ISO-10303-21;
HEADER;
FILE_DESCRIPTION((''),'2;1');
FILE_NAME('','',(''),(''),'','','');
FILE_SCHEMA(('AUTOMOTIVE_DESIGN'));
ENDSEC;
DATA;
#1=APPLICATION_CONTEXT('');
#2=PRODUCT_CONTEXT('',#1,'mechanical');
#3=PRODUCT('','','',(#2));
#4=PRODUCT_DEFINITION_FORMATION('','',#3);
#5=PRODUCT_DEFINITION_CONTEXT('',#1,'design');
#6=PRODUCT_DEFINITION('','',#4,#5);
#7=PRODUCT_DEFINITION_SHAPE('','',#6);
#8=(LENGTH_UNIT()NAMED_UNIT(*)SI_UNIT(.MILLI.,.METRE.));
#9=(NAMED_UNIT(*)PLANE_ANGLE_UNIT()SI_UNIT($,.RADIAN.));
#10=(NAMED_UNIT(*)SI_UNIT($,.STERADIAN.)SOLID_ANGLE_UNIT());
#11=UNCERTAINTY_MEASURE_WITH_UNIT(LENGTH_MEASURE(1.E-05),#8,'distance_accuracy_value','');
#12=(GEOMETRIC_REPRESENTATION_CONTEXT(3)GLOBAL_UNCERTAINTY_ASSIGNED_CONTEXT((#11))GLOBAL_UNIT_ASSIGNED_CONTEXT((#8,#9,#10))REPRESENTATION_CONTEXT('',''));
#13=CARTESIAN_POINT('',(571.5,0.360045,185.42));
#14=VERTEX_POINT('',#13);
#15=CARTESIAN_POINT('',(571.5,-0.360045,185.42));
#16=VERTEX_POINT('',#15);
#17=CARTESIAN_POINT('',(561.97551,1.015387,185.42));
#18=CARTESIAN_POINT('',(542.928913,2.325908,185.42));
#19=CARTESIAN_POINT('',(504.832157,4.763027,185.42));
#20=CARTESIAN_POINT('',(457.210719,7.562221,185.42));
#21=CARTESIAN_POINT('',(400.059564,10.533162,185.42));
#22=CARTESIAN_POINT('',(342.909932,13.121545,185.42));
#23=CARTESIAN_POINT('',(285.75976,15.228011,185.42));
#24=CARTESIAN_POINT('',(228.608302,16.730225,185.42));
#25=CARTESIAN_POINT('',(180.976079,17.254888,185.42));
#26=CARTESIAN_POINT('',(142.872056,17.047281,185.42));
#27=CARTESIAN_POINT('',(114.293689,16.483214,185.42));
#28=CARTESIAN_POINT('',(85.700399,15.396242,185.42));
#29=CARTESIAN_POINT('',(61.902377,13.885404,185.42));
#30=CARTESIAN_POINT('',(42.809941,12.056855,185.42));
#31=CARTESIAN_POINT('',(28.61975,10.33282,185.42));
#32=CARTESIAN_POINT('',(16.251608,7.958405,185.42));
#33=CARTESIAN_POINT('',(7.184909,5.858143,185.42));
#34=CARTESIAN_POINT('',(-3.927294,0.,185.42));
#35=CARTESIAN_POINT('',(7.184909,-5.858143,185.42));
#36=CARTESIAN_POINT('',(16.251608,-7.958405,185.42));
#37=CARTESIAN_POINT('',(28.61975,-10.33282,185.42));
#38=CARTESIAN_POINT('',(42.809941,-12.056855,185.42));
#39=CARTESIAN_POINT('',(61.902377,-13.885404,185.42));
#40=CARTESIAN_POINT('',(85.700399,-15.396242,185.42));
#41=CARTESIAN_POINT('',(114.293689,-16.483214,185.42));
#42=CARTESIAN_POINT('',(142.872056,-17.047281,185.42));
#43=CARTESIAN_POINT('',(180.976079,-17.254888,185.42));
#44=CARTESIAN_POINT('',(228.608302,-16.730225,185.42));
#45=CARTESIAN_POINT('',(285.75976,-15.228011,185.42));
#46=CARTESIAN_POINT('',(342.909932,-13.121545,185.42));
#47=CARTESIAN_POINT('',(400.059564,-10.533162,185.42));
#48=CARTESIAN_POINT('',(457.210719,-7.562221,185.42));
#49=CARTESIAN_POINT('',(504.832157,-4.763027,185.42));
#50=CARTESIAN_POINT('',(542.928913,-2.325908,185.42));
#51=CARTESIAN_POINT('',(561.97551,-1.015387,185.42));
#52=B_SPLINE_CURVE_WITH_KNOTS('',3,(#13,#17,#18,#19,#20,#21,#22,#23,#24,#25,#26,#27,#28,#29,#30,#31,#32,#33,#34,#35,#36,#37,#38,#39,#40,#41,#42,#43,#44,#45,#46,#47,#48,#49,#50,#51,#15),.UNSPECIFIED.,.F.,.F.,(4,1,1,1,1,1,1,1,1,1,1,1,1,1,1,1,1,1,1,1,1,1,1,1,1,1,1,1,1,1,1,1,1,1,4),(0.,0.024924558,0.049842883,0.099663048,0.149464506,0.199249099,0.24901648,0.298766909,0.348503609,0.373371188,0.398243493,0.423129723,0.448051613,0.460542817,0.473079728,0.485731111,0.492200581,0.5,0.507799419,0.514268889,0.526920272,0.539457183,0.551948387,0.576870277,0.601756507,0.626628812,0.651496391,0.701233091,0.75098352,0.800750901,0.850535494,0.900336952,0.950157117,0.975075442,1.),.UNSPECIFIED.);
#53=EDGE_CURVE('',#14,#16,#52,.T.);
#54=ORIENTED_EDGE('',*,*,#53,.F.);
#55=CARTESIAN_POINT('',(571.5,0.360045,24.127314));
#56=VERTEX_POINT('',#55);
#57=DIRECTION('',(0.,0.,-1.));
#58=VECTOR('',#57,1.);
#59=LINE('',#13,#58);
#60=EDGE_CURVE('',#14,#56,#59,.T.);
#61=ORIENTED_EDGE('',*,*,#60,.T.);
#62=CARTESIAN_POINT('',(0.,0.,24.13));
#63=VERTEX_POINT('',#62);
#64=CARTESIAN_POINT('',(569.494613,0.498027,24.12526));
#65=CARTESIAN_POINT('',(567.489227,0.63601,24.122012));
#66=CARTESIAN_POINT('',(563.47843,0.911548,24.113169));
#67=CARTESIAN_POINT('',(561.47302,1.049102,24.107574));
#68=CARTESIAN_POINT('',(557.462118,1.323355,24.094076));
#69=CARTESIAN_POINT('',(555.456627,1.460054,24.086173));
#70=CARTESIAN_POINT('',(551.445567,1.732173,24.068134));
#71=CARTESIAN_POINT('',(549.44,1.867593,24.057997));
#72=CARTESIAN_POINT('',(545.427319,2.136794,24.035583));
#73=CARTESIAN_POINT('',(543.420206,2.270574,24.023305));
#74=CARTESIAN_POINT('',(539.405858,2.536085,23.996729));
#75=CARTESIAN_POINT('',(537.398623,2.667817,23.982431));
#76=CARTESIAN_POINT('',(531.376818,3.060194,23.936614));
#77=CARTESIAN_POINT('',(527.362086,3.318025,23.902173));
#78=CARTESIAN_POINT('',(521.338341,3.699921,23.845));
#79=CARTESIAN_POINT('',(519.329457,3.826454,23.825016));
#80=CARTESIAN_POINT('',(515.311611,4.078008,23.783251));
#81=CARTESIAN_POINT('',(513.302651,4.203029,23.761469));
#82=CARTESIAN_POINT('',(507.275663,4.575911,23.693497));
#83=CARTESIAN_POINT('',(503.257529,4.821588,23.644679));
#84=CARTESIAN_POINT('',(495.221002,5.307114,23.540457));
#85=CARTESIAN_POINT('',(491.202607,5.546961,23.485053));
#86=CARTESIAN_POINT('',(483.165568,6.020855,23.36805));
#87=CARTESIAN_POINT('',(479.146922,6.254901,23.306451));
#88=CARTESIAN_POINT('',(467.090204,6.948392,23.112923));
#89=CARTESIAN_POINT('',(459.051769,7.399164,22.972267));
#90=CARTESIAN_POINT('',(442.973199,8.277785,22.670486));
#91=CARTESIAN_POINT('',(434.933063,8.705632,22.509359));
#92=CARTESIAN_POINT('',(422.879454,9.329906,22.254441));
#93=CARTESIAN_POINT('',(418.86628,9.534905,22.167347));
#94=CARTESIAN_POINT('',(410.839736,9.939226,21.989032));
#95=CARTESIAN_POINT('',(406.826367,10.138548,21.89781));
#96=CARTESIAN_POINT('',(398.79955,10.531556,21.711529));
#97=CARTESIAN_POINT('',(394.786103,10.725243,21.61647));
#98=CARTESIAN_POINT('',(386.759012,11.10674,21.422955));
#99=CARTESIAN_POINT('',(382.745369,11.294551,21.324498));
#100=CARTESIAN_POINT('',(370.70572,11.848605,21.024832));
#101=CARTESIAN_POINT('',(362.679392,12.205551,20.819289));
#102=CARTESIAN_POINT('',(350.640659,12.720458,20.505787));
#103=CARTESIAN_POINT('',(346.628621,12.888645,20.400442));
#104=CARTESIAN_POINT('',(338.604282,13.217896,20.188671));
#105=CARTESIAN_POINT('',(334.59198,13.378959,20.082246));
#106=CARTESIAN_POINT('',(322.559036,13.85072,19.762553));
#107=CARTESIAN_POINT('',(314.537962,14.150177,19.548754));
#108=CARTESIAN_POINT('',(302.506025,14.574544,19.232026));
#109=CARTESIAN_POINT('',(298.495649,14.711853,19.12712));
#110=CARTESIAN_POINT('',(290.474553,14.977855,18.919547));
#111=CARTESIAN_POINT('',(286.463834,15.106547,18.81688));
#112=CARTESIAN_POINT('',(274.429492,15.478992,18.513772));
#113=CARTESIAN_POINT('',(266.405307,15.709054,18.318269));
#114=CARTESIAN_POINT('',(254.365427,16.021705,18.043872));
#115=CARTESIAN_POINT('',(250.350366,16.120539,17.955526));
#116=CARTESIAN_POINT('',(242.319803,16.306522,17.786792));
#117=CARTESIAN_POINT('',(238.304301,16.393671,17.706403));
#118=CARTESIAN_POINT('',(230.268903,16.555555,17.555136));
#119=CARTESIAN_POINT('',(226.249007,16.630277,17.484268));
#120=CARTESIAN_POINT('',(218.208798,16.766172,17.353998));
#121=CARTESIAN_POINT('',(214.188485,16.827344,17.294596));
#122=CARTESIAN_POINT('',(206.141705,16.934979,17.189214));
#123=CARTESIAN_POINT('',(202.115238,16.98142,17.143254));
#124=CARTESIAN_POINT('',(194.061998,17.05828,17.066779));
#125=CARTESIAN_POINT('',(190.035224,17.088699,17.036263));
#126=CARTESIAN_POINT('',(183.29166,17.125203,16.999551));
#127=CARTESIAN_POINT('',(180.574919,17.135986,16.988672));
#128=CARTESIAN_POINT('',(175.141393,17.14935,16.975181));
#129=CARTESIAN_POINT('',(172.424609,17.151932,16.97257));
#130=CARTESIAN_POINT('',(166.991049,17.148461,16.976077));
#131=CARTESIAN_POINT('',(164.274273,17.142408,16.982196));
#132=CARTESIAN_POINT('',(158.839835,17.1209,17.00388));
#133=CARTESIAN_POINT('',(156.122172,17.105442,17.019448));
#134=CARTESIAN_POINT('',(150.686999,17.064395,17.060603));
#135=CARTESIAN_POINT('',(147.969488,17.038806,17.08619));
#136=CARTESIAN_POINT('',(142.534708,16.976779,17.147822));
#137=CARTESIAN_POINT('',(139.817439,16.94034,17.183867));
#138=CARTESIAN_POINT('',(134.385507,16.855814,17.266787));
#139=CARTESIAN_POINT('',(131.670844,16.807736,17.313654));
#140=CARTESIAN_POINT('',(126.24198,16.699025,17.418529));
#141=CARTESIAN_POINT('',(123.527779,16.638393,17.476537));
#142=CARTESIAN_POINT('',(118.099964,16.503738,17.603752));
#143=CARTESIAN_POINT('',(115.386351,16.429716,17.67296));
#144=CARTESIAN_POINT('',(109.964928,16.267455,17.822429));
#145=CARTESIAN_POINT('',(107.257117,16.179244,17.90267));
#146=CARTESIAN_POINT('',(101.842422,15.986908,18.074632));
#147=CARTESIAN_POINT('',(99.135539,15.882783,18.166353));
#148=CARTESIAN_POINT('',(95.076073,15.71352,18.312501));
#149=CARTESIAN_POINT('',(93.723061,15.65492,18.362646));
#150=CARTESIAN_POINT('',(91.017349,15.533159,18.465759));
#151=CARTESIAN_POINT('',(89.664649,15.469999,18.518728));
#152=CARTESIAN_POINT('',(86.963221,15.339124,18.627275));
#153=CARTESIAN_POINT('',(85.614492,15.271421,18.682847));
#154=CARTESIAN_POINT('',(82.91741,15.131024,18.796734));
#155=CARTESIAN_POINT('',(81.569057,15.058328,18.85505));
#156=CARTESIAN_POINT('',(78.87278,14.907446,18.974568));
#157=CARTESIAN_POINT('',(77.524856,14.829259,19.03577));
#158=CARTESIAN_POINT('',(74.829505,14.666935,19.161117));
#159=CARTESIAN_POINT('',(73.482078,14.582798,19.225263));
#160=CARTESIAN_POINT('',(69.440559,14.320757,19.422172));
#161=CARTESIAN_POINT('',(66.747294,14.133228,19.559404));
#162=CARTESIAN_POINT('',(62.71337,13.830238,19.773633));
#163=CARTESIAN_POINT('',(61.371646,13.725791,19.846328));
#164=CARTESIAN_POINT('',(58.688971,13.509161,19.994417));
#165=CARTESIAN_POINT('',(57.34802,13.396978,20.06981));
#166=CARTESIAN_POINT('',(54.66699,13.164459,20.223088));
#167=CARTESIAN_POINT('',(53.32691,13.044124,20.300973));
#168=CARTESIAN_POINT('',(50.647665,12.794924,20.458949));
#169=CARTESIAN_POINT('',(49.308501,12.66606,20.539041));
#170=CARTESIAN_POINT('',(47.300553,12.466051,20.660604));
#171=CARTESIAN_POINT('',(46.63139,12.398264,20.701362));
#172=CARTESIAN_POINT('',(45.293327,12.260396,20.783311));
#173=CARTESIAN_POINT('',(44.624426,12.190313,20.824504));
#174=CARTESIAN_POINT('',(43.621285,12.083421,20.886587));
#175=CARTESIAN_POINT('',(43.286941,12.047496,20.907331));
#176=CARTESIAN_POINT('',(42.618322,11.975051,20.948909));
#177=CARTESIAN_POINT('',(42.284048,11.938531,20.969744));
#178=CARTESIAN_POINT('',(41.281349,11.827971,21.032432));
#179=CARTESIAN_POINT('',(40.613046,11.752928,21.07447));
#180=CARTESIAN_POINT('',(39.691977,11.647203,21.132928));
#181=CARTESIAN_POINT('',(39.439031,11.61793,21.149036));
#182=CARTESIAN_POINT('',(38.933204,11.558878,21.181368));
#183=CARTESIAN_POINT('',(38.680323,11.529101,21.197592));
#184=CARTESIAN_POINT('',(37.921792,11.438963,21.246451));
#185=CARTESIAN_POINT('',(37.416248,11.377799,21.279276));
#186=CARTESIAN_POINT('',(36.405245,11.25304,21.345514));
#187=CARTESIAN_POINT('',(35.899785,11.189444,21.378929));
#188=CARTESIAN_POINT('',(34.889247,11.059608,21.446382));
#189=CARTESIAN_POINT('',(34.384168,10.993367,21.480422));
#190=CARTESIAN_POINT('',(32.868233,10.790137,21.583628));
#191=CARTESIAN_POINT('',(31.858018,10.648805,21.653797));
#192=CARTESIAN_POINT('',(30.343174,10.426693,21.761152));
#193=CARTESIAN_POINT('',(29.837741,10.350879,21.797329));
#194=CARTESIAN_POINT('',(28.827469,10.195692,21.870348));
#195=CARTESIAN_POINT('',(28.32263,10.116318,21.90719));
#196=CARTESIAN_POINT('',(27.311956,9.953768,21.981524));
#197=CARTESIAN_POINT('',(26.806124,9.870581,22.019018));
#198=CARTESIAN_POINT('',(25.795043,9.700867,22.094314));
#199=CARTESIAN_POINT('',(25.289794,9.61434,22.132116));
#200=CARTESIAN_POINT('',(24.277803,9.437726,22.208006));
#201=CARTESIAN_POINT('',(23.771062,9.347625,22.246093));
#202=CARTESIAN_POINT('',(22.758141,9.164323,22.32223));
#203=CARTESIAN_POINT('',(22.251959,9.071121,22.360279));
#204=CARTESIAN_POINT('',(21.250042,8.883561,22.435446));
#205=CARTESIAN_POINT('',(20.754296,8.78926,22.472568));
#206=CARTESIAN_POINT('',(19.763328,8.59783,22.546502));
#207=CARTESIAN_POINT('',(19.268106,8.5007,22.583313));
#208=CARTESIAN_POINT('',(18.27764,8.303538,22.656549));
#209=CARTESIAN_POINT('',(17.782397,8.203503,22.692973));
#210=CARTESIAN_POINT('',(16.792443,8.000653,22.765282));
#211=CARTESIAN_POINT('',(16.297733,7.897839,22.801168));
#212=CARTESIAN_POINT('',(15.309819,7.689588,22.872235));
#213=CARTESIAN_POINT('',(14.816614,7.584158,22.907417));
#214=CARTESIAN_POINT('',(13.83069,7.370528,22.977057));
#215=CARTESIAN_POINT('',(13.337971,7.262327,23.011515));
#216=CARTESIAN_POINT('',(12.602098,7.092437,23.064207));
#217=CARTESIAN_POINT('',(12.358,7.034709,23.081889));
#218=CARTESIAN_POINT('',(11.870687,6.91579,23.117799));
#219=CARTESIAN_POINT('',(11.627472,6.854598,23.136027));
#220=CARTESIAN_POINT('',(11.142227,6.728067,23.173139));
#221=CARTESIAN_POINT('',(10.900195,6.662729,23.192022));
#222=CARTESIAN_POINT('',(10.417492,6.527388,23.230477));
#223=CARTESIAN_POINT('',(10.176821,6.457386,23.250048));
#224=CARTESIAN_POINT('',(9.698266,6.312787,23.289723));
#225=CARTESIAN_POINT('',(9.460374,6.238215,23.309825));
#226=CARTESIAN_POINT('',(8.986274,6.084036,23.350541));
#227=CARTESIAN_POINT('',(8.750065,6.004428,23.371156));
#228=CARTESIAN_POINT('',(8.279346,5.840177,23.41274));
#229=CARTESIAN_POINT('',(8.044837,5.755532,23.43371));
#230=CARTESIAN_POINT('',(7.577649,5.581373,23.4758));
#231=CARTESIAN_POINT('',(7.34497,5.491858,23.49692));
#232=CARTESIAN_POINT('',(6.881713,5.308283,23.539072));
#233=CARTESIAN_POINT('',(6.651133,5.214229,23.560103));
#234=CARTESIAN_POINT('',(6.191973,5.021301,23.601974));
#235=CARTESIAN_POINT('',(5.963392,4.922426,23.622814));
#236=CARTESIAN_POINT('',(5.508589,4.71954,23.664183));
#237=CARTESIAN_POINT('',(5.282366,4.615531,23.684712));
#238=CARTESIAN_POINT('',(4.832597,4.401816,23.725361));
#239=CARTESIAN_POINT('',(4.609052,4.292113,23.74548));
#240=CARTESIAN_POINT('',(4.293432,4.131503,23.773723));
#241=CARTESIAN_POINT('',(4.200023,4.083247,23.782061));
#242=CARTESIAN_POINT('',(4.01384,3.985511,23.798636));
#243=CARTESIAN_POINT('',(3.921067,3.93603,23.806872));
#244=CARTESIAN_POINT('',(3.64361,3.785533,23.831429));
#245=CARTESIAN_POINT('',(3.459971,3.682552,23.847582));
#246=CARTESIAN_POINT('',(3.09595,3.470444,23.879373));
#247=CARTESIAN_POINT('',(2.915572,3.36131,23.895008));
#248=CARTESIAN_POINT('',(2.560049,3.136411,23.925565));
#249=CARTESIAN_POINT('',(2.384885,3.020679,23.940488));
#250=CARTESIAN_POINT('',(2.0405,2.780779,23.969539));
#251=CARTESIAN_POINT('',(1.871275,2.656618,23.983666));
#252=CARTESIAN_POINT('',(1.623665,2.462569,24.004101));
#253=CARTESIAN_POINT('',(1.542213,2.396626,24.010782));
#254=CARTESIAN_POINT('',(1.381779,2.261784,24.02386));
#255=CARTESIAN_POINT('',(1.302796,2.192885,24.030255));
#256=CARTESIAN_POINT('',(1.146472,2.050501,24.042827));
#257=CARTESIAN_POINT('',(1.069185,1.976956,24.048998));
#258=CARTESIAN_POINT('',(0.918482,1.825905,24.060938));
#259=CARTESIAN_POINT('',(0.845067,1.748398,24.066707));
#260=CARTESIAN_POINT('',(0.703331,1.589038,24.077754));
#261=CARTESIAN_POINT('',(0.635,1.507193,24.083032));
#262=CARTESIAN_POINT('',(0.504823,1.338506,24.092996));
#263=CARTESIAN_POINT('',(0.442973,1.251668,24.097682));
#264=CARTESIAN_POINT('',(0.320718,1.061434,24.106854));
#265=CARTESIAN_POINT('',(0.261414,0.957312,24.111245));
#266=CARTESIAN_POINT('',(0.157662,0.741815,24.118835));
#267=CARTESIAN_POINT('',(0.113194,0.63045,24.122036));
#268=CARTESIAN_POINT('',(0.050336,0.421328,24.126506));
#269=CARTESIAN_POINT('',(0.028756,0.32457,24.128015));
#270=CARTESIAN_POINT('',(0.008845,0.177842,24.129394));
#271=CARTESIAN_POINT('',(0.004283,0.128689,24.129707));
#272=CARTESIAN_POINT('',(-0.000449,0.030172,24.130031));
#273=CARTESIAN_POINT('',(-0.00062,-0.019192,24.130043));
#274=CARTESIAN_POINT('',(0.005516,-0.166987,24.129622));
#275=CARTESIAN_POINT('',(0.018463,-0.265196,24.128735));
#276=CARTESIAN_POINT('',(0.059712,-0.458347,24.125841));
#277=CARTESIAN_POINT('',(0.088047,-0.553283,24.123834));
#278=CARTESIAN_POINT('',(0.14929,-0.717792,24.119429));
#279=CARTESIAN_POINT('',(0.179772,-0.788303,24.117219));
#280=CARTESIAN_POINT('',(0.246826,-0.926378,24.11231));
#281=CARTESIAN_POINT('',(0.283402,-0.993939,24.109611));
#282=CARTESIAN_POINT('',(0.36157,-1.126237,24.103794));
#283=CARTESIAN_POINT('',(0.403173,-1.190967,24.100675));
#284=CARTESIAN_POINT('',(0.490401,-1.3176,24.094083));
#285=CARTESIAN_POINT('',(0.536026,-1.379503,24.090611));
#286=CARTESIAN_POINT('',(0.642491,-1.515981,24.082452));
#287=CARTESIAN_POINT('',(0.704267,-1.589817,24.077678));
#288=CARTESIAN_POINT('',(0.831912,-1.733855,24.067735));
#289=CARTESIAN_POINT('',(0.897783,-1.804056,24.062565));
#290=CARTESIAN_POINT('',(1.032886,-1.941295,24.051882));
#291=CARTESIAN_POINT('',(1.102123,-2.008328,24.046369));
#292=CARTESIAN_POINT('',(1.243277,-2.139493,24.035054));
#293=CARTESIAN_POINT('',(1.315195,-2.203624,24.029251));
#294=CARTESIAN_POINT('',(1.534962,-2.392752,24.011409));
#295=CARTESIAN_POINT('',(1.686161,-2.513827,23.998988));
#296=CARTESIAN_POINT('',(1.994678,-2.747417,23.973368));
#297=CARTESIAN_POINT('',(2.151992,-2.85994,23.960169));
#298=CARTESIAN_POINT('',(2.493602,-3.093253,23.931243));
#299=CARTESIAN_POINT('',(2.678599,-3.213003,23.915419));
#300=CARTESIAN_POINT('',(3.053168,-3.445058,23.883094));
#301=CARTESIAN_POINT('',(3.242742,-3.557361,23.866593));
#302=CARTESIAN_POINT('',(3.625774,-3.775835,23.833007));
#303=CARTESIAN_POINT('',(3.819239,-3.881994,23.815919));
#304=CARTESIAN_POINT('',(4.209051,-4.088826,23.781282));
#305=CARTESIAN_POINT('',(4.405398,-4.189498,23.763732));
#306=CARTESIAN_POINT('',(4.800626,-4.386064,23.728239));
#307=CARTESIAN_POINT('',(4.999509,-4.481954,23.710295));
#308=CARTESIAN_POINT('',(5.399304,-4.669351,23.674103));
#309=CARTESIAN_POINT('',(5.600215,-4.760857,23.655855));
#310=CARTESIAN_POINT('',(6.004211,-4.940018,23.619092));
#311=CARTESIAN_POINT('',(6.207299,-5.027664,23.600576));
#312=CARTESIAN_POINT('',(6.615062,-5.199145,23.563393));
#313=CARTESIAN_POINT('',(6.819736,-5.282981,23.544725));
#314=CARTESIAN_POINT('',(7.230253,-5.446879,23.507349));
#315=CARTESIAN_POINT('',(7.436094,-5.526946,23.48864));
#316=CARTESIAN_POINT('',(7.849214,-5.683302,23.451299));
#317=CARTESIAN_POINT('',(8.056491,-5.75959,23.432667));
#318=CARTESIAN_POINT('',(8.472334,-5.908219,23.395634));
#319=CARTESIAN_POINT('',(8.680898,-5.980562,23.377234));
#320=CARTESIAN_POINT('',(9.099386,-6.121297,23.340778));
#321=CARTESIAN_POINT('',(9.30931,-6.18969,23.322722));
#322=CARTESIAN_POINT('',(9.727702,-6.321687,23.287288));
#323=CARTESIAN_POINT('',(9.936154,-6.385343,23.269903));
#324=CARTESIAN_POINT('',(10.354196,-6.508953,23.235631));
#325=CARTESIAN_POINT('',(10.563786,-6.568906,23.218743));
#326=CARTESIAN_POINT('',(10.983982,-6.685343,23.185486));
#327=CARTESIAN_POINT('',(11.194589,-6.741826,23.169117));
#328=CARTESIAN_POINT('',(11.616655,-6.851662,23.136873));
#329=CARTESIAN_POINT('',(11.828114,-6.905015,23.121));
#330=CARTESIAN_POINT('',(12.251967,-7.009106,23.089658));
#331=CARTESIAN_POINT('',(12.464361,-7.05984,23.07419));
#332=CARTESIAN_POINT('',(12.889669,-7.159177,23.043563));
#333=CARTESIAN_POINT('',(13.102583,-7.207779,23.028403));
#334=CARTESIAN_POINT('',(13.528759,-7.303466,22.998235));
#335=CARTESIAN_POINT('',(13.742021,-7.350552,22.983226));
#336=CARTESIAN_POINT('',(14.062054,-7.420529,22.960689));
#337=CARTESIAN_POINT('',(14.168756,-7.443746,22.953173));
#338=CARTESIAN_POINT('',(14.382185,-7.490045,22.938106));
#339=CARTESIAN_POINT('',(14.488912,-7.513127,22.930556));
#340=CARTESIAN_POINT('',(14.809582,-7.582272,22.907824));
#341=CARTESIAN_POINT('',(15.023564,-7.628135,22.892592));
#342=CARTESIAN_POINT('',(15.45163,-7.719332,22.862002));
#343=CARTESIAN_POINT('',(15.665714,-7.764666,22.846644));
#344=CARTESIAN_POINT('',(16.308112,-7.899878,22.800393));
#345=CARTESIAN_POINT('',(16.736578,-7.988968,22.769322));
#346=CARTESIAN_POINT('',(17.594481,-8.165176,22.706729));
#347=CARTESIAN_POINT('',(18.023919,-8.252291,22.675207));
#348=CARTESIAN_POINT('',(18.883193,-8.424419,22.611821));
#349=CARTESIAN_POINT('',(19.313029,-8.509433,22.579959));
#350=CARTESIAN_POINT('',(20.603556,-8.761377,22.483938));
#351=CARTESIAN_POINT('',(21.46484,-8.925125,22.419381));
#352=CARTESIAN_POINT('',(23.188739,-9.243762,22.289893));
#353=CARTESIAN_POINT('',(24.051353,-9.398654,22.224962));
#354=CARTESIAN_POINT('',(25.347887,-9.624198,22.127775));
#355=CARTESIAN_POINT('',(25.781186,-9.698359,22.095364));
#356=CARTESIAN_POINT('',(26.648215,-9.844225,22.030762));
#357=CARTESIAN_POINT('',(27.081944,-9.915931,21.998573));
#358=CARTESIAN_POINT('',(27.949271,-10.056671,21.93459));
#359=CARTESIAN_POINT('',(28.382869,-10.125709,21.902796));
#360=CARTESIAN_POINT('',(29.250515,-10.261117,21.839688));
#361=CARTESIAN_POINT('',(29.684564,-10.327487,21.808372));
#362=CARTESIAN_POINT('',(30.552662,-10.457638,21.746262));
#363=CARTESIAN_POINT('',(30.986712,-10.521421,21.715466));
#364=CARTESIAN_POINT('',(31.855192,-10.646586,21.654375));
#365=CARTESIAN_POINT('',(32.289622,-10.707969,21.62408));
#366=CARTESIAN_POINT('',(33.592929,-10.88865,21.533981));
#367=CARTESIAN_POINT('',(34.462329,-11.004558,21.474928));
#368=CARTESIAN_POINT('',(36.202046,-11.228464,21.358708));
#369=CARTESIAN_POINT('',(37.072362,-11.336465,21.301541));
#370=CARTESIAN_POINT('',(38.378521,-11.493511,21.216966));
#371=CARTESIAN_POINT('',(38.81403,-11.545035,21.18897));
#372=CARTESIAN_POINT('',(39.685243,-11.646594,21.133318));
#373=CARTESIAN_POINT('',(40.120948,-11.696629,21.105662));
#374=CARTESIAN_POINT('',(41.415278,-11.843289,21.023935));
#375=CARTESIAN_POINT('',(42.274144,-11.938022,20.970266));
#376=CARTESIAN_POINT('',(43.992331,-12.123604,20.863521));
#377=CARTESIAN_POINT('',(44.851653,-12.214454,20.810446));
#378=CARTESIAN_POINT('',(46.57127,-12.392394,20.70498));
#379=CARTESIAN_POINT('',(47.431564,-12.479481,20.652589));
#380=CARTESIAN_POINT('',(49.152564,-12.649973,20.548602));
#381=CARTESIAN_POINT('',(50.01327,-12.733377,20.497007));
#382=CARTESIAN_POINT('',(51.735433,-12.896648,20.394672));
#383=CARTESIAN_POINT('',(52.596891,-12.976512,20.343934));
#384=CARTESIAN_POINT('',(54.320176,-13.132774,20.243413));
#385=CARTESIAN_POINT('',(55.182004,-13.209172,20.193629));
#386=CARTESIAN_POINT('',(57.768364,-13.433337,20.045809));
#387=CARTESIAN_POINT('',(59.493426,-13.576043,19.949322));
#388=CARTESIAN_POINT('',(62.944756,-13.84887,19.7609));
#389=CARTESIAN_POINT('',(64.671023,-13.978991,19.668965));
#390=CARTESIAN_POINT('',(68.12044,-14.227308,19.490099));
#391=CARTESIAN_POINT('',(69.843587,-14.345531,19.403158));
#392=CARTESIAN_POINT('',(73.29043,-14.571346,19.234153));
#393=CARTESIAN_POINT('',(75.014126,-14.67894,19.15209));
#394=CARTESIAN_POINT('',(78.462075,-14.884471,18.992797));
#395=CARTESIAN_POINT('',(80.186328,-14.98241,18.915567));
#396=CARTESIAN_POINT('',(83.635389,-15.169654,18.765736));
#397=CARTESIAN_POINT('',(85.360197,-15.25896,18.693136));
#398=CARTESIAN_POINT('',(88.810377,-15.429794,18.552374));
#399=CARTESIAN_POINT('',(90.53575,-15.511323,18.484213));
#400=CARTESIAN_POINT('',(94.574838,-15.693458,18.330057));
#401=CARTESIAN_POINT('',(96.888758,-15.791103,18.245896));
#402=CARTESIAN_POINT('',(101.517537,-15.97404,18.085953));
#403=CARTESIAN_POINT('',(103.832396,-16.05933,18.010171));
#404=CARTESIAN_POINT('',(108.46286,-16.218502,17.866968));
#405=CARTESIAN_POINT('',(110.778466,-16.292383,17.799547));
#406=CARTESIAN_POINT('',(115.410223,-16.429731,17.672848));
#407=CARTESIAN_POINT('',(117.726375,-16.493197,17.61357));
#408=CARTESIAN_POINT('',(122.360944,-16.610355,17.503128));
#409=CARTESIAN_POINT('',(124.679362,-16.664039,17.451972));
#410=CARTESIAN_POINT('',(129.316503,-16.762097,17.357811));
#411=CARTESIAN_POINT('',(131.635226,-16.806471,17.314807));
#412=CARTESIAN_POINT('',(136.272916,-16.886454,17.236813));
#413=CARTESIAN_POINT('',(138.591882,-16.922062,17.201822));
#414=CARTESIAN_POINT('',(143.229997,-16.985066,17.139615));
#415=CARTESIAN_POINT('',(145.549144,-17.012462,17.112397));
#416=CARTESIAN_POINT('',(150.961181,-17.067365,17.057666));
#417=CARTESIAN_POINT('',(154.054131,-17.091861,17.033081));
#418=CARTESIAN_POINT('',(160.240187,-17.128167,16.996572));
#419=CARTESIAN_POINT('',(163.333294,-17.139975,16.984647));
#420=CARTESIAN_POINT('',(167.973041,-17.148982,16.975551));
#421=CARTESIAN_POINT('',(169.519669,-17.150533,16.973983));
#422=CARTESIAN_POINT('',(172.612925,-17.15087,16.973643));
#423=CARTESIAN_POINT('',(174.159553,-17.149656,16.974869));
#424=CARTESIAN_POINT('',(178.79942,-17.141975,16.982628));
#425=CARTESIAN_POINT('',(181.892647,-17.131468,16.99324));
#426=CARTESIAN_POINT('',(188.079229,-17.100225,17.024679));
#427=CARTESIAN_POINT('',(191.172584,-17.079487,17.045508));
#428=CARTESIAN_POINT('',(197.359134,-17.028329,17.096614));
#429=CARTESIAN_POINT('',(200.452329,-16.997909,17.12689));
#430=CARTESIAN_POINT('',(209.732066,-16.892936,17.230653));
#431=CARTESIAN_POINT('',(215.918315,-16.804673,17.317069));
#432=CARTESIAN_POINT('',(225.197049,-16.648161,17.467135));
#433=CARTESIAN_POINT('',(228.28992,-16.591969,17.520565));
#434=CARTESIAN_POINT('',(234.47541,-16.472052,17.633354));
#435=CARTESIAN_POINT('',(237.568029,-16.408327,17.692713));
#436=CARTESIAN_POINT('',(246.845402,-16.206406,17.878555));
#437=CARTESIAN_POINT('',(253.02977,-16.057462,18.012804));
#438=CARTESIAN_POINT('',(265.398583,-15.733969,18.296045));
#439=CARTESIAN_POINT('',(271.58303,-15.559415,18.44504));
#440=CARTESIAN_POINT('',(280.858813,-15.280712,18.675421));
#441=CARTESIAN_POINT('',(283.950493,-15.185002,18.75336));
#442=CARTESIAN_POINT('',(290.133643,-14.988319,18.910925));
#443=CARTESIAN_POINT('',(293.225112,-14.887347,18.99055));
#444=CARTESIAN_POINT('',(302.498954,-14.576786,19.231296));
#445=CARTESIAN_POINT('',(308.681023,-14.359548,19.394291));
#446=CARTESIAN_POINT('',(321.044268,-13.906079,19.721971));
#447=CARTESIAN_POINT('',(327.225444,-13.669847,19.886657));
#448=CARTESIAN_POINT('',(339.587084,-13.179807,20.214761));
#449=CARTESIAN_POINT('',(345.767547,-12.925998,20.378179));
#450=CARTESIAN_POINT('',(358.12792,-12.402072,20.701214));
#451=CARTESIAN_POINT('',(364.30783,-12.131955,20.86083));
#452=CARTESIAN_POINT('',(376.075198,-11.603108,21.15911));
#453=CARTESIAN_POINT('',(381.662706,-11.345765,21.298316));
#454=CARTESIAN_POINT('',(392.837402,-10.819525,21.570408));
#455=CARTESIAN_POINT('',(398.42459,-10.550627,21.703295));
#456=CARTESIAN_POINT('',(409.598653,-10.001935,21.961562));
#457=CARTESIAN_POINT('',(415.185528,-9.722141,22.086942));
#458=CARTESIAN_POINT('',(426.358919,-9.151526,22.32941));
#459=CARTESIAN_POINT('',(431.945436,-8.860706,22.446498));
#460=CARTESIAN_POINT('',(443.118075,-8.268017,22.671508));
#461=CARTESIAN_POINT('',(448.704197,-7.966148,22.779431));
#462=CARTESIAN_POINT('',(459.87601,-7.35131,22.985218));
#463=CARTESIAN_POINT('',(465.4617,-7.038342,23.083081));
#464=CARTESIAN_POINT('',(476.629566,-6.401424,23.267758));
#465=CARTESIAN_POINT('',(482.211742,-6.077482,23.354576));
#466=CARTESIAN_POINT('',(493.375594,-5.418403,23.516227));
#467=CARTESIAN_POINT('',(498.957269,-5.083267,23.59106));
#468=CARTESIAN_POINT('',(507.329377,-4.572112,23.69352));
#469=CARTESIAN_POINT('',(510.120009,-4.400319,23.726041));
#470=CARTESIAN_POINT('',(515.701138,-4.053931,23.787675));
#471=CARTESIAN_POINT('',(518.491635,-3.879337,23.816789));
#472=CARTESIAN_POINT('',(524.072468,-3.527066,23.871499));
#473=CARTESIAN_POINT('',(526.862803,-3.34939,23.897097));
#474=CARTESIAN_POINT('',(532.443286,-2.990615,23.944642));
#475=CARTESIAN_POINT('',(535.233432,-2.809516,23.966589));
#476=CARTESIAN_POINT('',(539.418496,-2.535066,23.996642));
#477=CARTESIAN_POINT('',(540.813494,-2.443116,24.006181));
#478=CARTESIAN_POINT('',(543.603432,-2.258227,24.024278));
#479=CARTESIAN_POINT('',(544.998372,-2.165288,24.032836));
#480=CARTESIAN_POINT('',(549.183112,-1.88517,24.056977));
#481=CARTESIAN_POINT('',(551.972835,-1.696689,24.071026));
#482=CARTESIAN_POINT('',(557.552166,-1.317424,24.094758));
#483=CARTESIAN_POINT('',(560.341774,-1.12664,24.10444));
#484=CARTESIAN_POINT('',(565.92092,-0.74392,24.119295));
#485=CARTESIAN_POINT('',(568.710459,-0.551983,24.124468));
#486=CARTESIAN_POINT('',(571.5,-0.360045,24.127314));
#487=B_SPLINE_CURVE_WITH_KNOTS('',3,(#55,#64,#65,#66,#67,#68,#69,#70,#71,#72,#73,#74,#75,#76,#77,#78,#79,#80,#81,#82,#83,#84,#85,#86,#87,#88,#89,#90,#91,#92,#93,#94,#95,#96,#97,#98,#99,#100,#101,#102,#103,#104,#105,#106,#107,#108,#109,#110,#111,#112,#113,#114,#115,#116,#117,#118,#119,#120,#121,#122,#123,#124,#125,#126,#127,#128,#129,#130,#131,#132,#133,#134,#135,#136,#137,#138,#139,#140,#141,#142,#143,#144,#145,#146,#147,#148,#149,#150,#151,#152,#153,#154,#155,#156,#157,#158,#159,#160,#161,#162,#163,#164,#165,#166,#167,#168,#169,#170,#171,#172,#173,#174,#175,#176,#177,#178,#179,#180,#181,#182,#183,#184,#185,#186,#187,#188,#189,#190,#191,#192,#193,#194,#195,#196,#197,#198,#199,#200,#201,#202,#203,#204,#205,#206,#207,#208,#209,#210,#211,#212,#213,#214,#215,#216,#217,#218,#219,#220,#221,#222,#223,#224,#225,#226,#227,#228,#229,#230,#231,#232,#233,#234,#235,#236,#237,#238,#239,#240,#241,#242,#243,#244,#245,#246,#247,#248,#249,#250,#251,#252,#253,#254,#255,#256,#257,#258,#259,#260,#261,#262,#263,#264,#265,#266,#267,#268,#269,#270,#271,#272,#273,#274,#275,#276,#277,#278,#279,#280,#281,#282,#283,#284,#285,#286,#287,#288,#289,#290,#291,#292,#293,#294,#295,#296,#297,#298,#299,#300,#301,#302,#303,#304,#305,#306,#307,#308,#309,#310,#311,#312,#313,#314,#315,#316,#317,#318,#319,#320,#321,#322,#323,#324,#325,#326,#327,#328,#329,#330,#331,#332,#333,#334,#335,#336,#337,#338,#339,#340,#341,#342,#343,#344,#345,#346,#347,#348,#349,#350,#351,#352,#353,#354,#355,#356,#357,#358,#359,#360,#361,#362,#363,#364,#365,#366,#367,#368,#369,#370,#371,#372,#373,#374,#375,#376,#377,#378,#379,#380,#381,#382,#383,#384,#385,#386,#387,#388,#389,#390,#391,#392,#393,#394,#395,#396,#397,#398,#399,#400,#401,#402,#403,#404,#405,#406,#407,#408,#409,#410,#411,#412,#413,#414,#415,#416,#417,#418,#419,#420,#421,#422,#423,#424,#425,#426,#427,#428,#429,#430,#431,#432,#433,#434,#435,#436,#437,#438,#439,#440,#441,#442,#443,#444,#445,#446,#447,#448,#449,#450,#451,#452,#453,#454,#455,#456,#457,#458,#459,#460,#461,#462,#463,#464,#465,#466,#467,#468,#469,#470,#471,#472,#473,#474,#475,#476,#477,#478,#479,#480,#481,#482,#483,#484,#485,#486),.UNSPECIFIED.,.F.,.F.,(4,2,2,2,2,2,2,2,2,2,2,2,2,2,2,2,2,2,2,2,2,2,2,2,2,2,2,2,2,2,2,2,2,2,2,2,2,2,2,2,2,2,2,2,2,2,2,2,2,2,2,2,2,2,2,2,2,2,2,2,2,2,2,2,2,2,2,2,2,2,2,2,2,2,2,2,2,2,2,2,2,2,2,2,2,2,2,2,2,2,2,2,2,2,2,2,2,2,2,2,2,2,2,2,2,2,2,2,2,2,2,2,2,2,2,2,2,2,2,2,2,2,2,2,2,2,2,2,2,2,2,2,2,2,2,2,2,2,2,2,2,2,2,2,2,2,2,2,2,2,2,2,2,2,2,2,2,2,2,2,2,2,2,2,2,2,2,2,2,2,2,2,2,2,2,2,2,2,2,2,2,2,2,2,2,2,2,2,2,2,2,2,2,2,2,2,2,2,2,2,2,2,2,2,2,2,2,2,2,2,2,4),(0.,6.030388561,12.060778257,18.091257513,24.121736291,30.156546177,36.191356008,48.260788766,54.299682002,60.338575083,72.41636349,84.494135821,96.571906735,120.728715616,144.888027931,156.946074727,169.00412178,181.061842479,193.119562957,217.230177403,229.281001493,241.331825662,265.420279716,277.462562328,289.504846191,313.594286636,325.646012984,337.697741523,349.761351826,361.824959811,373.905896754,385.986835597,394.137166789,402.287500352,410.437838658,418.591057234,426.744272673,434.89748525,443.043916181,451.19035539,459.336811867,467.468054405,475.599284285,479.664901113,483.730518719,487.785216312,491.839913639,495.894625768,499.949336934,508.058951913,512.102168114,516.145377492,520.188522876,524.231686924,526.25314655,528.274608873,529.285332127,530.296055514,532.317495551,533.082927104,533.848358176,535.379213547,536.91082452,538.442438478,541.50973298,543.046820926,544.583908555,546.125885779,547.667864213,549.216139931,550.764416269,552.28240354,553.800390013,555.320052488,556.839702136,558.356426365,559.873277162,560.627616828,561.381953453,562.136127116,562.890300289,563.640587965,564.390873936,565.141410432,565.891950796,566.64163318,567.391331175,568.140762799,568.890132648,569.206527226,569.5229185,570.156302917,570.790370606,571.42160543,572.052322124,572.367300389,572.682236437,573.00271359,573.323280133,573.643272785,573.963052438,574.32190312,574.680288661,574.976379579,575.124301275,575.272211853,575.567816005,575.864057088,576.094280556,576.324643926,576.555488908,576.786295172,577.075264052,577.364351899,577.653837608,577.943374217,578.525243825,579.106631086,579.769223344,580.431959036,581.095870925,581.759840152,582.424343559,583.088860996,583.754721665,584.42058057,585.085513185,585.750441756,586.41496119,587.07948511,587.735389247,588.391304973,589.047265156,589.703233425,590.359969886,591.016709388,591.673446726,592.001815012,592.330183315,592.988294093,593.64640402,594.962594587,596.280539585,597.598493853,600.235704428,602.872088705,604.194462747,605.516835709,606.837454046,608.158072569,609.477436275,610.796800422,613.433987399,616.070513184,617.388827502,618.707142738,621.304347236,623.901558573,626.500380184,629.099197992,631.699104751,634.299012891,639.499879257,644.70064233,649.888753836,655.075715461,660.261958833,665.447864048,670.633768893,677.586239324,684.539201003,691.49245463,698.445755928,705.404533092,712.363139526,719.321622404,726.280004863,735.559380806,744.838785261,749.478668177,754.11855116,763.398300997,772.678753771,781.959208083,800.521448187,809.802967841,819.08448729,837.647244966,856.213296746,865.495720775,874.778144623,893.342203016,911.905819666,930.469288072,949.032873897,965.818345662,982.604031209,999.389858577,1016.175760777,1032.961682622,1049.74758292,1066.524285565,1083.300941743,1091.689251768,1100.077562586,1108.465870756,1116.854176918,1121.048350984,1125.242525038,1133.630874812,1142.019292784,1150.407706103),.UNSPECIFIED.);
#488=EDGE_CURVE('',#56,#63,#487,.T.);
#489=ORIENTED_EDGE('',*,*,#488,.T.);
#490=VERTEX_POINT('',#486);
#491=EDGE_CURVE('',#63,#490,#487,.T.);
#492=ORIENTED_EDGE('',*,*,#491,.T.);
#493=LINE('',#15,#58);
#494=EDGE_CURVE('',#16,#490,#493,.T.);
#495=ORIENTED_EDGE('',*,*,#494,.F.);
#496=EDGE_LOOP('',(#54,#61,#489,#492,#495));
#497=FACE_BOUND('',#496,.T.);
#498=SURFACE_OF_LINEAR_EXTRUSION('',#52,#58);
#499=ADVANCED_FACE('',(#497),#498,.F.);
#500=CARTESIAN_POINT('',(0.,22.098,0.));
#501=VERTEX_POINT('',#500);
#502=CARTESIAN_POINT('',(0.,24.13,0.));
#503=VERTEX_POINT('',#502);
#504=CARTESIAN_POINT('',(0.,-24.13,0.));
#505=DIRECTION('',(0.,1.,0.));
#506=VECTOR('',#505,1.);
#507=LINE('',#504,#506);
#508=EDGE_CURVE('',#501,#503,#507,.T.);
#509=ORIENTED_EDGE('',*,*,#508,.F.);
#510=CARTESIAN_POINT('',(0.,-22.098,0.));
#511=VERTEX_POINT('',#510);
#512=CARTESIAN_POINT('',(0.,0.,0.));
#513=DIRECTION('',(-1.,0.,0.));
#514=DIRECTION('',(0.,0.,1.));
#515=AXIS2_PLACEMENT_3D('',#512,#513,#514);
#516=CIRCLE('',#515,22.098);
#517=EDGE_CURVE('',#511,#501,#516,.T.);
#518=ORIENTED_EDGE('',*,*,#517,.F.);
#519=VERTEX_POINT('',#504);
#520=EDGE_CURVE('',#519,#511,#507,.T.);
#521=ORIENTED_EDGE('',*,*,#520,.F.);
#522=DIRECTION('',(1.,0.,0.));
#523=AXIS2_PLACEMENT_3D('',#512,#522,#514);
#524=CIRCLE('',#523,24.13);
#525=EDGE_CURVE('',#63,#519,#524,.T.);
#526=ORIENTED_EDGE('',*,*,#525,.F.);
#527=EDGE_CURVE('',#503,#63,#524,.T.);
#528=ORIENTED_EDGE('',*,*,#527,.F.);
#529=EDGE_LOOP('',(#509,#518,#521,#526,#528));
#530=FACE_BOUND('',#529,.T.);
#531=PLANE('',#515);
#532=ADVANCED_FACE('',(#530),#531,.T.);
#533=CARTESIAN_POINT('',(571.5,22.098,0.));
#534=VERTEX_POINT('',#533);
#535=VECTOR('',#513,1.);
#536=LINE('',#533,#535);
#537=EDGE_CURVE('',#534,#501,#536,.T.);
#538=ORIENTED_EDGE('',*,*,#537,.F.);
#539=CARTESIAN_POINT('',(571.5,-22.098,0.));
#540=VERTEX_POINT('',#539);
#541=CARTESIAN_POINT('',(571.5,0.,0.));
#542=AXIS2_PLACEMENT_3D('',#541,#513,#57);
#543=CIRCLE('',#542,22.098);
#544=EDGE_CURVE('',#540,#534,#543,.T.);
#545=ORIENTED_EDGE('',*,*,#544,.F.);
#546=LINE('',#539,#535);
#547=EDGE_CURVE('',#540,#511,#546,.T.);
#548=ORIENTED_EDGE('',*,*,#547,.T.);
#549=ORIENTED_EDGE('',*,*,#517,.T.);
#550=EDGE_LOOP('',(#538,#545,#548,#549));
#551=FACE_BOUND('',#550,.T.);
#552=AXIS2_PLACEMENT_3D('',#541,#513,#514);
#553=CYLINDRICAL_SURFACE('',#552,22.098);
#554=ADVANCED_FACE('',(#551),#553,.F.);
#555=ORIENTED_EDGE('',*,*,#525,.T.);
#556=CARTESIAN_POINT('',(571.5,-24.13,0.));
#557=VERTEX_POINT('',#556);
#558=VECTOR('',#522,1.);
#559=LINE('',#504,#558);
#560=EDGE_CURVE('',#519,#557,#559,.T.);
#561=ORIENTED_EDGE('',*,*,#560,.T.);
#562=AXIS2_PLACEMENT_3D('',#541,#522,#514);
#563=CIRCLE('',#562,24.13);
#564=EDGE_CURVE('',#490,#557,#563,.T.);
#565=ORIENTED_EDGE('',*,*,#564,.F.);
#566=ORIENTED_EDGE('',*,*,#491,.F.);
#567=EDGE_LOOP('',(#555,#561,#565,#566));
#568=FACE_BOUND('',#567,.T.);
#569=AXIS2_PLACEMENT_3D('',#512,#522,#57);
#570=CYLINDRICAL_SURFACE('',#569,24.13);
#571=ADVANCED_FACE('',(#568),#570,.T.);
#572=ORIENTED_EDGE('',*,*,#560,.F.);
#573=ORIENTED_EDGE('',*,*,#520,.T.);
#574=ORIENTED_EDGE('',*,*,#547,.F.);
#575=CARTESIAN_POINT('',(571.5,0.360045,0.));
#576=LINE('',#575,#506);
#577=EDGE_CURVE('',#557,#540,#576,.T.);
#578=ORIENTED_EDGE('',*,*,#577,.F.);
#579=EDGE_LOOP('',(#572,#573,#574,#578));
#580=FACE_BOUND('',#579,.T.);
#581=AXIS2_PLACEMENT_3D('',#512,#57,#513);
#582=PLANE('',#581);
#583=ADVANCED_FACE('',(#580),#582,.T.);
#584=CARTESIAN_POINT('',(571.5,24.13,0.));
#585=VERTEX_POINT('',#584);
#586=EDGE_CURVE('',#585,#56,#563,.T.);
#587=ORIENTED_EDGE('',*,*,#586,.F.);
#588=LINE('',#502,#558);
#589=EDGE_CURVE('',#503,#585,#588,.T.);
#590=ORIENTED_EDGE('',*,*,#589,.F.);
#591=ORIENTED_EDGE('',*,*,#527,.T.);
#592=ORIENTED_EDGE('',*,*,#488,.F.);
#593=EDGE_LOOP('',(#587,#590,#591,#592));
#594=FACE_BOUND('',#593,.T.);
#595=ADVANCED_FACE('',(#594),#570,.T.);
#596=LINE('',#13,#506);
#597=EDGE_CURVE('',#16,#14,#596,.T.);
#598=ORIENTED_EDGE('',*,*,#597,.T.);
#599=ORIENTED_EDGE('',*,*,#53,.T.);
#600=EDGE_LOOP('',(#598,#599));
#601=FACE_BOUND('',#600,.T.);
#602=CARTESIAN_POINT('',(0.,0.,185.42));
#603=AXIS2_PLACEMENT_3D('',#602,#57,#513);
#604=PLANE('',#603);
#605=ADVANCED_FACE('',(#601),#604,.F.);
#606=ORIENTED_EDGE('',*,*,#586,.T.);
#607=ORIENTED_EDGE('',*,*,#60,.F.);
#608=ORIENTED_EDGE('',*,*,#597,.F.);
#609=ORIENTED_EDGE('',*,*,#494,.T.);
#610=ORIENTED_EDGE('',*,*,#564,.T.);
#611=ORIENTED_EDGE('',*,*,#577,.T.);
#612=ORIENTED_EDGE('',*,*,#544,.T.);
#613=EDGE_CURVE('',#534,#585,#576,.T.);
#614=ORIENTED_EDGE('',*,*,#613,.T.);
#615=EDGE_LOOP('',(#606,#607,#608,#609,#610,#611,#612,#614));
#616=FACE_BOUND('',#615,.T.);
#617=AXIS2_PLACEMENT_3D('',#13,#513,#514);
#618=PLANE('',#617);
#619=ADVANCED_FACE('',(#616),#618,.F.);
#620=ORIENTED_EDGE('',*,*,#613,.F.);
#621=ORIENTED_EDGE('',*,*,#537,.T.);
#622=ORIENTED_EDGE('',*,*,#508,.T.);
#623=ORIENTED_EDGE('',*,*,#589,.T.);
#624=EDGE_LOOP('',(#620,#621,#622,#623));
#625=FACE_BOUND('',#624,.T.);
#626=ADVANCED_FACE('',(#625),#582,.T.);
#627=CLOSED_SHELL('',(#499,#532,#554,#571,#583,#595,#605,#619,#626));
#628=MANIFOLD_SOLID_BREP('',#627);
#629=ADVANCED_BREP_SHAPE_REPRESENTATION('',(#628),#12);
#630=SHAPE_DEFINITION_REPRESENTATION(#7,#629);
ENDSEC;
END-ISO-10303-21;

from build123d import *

# Parameters (mm, degrees)
BOSS_EXTRUDE1_DEPTH     = 185.42
BOSS_EXTRUDE2_DEPTH     = 571.5
CUT_EXTRUDE1_DEPTH      = 602.31113698
CUT_EXTRUDE1_DEPTH_BACK = 602.31113698


with BuildPart() as part:
    # Sketch1 → Boss-Extrude1 (new body)
    with BuildSketch(Plane.XY):
        with BuildLine():
            Line((571.5, 0.360045), (571.5, -0.360045))
            add(Edge.make_bspline(
                [(571.5, 0.360045), (561.975510313, 1.015387176), (542.928912588, 2.325907658), (504.832156781, 4.763026707), (457.21071903, 7.562220815), (400.059564076, 10.533161685), (342.90993238, 13.12154544), (285.759759849, 15.228011136), (228.608301613, 16.730224822), (180.976079252, 17.25488768), (142.872056015, 17.047281355), (114.293689392, 16.483213625), (85.700399103, 15.396241687), (61.902376846, 13.885403828), (42.809940554, 12.056855338), (28.619749674, 10.332819707), (16.251608431, 7.958404715), (7.184909393, 5.858143046), (-3.927293718, 0), (7.184909393, -5.858143046), (16.251608431, -7.958404715), (28.619749674, -10.332819707), (42.809940554, -12.056855338), (61.902376846, -13.885403828), (85.700399103, -15.396241687), (114.293689392, -16.483213625), (142.872056015, -17.047281355), (180.976079252, -17.25488768), (228.608301613, -16.730224822), (285.759759849, -15.228011136), (342.90993238, -13.12154544), (400.059564076, -10.533161686), (457.21071903, -7.562220816), (504.832156781, -4.763026707), (542.928912588, -2.325907658), (561.975510313, -1.015387177), (571.5, -0.360045)],
                knots=[0, 0, 0, 0, 0.024924558, 0.049842883, 0.099663048, 0.149464506, 0.199249099, 0.24901648, 0.298766909, 0.348503609, 0.373371188, 0.398243493, 0.423129723, 0.448051613, 0.460542817, 0.473079728, 0.485731111, 0.492200581, 0.5, 0.507799419, 0.514268889, 0.526920272, 0.539457183, 0.551948387, 0.576870277, 0.601756507, 0.626628812, 0.651496391, 0.701233091, 0.75098352, 0.800750901, 0.850535494, 0.900336952, 0.950157117, 0.975075442, 1, 1, 1, 1], degree=3))
        make_face()
    extrude(amount=BOSS_EXTRUDE1_DEPTH)

    # Sketch2 → Boss-Extrude2 (add)
    with BuildSketch(Plane(origin=(571.5, 0, 0), x_dir=(0, 0, -1), z_dir=(1, 0, 0))):
        with BuildLine():
            Line((0, -24.13), (0, 24.13))
            ThreePointArc((0, 24.13), (-24.13, 0), (0, -24.13))
        make_face()
    extrude(amount=-BOSS_EXTRUDE2_DEPTH)

    # Sketch3 → Cut-Extrude1 (cut, two sides: drawn at the far end of the back side and taken through both)
    with BuildSketch(Plane.ZY.offset(-CUT_EXTRUDE1_DEPTH_BACK)):
        with BuildLine():
            Line((0, 22.098), (0, -22.098))
            ThreePointArc((0, -22.098), (22.098, 0), (0, 22.098))
        make_face()
    extrude(amount=CUT_EXTRUDE1_DEPTH + CUT_EXTRUDE1_DEPTH_BACK, mode=Mode.SUBTRACT)


solid = part.part
